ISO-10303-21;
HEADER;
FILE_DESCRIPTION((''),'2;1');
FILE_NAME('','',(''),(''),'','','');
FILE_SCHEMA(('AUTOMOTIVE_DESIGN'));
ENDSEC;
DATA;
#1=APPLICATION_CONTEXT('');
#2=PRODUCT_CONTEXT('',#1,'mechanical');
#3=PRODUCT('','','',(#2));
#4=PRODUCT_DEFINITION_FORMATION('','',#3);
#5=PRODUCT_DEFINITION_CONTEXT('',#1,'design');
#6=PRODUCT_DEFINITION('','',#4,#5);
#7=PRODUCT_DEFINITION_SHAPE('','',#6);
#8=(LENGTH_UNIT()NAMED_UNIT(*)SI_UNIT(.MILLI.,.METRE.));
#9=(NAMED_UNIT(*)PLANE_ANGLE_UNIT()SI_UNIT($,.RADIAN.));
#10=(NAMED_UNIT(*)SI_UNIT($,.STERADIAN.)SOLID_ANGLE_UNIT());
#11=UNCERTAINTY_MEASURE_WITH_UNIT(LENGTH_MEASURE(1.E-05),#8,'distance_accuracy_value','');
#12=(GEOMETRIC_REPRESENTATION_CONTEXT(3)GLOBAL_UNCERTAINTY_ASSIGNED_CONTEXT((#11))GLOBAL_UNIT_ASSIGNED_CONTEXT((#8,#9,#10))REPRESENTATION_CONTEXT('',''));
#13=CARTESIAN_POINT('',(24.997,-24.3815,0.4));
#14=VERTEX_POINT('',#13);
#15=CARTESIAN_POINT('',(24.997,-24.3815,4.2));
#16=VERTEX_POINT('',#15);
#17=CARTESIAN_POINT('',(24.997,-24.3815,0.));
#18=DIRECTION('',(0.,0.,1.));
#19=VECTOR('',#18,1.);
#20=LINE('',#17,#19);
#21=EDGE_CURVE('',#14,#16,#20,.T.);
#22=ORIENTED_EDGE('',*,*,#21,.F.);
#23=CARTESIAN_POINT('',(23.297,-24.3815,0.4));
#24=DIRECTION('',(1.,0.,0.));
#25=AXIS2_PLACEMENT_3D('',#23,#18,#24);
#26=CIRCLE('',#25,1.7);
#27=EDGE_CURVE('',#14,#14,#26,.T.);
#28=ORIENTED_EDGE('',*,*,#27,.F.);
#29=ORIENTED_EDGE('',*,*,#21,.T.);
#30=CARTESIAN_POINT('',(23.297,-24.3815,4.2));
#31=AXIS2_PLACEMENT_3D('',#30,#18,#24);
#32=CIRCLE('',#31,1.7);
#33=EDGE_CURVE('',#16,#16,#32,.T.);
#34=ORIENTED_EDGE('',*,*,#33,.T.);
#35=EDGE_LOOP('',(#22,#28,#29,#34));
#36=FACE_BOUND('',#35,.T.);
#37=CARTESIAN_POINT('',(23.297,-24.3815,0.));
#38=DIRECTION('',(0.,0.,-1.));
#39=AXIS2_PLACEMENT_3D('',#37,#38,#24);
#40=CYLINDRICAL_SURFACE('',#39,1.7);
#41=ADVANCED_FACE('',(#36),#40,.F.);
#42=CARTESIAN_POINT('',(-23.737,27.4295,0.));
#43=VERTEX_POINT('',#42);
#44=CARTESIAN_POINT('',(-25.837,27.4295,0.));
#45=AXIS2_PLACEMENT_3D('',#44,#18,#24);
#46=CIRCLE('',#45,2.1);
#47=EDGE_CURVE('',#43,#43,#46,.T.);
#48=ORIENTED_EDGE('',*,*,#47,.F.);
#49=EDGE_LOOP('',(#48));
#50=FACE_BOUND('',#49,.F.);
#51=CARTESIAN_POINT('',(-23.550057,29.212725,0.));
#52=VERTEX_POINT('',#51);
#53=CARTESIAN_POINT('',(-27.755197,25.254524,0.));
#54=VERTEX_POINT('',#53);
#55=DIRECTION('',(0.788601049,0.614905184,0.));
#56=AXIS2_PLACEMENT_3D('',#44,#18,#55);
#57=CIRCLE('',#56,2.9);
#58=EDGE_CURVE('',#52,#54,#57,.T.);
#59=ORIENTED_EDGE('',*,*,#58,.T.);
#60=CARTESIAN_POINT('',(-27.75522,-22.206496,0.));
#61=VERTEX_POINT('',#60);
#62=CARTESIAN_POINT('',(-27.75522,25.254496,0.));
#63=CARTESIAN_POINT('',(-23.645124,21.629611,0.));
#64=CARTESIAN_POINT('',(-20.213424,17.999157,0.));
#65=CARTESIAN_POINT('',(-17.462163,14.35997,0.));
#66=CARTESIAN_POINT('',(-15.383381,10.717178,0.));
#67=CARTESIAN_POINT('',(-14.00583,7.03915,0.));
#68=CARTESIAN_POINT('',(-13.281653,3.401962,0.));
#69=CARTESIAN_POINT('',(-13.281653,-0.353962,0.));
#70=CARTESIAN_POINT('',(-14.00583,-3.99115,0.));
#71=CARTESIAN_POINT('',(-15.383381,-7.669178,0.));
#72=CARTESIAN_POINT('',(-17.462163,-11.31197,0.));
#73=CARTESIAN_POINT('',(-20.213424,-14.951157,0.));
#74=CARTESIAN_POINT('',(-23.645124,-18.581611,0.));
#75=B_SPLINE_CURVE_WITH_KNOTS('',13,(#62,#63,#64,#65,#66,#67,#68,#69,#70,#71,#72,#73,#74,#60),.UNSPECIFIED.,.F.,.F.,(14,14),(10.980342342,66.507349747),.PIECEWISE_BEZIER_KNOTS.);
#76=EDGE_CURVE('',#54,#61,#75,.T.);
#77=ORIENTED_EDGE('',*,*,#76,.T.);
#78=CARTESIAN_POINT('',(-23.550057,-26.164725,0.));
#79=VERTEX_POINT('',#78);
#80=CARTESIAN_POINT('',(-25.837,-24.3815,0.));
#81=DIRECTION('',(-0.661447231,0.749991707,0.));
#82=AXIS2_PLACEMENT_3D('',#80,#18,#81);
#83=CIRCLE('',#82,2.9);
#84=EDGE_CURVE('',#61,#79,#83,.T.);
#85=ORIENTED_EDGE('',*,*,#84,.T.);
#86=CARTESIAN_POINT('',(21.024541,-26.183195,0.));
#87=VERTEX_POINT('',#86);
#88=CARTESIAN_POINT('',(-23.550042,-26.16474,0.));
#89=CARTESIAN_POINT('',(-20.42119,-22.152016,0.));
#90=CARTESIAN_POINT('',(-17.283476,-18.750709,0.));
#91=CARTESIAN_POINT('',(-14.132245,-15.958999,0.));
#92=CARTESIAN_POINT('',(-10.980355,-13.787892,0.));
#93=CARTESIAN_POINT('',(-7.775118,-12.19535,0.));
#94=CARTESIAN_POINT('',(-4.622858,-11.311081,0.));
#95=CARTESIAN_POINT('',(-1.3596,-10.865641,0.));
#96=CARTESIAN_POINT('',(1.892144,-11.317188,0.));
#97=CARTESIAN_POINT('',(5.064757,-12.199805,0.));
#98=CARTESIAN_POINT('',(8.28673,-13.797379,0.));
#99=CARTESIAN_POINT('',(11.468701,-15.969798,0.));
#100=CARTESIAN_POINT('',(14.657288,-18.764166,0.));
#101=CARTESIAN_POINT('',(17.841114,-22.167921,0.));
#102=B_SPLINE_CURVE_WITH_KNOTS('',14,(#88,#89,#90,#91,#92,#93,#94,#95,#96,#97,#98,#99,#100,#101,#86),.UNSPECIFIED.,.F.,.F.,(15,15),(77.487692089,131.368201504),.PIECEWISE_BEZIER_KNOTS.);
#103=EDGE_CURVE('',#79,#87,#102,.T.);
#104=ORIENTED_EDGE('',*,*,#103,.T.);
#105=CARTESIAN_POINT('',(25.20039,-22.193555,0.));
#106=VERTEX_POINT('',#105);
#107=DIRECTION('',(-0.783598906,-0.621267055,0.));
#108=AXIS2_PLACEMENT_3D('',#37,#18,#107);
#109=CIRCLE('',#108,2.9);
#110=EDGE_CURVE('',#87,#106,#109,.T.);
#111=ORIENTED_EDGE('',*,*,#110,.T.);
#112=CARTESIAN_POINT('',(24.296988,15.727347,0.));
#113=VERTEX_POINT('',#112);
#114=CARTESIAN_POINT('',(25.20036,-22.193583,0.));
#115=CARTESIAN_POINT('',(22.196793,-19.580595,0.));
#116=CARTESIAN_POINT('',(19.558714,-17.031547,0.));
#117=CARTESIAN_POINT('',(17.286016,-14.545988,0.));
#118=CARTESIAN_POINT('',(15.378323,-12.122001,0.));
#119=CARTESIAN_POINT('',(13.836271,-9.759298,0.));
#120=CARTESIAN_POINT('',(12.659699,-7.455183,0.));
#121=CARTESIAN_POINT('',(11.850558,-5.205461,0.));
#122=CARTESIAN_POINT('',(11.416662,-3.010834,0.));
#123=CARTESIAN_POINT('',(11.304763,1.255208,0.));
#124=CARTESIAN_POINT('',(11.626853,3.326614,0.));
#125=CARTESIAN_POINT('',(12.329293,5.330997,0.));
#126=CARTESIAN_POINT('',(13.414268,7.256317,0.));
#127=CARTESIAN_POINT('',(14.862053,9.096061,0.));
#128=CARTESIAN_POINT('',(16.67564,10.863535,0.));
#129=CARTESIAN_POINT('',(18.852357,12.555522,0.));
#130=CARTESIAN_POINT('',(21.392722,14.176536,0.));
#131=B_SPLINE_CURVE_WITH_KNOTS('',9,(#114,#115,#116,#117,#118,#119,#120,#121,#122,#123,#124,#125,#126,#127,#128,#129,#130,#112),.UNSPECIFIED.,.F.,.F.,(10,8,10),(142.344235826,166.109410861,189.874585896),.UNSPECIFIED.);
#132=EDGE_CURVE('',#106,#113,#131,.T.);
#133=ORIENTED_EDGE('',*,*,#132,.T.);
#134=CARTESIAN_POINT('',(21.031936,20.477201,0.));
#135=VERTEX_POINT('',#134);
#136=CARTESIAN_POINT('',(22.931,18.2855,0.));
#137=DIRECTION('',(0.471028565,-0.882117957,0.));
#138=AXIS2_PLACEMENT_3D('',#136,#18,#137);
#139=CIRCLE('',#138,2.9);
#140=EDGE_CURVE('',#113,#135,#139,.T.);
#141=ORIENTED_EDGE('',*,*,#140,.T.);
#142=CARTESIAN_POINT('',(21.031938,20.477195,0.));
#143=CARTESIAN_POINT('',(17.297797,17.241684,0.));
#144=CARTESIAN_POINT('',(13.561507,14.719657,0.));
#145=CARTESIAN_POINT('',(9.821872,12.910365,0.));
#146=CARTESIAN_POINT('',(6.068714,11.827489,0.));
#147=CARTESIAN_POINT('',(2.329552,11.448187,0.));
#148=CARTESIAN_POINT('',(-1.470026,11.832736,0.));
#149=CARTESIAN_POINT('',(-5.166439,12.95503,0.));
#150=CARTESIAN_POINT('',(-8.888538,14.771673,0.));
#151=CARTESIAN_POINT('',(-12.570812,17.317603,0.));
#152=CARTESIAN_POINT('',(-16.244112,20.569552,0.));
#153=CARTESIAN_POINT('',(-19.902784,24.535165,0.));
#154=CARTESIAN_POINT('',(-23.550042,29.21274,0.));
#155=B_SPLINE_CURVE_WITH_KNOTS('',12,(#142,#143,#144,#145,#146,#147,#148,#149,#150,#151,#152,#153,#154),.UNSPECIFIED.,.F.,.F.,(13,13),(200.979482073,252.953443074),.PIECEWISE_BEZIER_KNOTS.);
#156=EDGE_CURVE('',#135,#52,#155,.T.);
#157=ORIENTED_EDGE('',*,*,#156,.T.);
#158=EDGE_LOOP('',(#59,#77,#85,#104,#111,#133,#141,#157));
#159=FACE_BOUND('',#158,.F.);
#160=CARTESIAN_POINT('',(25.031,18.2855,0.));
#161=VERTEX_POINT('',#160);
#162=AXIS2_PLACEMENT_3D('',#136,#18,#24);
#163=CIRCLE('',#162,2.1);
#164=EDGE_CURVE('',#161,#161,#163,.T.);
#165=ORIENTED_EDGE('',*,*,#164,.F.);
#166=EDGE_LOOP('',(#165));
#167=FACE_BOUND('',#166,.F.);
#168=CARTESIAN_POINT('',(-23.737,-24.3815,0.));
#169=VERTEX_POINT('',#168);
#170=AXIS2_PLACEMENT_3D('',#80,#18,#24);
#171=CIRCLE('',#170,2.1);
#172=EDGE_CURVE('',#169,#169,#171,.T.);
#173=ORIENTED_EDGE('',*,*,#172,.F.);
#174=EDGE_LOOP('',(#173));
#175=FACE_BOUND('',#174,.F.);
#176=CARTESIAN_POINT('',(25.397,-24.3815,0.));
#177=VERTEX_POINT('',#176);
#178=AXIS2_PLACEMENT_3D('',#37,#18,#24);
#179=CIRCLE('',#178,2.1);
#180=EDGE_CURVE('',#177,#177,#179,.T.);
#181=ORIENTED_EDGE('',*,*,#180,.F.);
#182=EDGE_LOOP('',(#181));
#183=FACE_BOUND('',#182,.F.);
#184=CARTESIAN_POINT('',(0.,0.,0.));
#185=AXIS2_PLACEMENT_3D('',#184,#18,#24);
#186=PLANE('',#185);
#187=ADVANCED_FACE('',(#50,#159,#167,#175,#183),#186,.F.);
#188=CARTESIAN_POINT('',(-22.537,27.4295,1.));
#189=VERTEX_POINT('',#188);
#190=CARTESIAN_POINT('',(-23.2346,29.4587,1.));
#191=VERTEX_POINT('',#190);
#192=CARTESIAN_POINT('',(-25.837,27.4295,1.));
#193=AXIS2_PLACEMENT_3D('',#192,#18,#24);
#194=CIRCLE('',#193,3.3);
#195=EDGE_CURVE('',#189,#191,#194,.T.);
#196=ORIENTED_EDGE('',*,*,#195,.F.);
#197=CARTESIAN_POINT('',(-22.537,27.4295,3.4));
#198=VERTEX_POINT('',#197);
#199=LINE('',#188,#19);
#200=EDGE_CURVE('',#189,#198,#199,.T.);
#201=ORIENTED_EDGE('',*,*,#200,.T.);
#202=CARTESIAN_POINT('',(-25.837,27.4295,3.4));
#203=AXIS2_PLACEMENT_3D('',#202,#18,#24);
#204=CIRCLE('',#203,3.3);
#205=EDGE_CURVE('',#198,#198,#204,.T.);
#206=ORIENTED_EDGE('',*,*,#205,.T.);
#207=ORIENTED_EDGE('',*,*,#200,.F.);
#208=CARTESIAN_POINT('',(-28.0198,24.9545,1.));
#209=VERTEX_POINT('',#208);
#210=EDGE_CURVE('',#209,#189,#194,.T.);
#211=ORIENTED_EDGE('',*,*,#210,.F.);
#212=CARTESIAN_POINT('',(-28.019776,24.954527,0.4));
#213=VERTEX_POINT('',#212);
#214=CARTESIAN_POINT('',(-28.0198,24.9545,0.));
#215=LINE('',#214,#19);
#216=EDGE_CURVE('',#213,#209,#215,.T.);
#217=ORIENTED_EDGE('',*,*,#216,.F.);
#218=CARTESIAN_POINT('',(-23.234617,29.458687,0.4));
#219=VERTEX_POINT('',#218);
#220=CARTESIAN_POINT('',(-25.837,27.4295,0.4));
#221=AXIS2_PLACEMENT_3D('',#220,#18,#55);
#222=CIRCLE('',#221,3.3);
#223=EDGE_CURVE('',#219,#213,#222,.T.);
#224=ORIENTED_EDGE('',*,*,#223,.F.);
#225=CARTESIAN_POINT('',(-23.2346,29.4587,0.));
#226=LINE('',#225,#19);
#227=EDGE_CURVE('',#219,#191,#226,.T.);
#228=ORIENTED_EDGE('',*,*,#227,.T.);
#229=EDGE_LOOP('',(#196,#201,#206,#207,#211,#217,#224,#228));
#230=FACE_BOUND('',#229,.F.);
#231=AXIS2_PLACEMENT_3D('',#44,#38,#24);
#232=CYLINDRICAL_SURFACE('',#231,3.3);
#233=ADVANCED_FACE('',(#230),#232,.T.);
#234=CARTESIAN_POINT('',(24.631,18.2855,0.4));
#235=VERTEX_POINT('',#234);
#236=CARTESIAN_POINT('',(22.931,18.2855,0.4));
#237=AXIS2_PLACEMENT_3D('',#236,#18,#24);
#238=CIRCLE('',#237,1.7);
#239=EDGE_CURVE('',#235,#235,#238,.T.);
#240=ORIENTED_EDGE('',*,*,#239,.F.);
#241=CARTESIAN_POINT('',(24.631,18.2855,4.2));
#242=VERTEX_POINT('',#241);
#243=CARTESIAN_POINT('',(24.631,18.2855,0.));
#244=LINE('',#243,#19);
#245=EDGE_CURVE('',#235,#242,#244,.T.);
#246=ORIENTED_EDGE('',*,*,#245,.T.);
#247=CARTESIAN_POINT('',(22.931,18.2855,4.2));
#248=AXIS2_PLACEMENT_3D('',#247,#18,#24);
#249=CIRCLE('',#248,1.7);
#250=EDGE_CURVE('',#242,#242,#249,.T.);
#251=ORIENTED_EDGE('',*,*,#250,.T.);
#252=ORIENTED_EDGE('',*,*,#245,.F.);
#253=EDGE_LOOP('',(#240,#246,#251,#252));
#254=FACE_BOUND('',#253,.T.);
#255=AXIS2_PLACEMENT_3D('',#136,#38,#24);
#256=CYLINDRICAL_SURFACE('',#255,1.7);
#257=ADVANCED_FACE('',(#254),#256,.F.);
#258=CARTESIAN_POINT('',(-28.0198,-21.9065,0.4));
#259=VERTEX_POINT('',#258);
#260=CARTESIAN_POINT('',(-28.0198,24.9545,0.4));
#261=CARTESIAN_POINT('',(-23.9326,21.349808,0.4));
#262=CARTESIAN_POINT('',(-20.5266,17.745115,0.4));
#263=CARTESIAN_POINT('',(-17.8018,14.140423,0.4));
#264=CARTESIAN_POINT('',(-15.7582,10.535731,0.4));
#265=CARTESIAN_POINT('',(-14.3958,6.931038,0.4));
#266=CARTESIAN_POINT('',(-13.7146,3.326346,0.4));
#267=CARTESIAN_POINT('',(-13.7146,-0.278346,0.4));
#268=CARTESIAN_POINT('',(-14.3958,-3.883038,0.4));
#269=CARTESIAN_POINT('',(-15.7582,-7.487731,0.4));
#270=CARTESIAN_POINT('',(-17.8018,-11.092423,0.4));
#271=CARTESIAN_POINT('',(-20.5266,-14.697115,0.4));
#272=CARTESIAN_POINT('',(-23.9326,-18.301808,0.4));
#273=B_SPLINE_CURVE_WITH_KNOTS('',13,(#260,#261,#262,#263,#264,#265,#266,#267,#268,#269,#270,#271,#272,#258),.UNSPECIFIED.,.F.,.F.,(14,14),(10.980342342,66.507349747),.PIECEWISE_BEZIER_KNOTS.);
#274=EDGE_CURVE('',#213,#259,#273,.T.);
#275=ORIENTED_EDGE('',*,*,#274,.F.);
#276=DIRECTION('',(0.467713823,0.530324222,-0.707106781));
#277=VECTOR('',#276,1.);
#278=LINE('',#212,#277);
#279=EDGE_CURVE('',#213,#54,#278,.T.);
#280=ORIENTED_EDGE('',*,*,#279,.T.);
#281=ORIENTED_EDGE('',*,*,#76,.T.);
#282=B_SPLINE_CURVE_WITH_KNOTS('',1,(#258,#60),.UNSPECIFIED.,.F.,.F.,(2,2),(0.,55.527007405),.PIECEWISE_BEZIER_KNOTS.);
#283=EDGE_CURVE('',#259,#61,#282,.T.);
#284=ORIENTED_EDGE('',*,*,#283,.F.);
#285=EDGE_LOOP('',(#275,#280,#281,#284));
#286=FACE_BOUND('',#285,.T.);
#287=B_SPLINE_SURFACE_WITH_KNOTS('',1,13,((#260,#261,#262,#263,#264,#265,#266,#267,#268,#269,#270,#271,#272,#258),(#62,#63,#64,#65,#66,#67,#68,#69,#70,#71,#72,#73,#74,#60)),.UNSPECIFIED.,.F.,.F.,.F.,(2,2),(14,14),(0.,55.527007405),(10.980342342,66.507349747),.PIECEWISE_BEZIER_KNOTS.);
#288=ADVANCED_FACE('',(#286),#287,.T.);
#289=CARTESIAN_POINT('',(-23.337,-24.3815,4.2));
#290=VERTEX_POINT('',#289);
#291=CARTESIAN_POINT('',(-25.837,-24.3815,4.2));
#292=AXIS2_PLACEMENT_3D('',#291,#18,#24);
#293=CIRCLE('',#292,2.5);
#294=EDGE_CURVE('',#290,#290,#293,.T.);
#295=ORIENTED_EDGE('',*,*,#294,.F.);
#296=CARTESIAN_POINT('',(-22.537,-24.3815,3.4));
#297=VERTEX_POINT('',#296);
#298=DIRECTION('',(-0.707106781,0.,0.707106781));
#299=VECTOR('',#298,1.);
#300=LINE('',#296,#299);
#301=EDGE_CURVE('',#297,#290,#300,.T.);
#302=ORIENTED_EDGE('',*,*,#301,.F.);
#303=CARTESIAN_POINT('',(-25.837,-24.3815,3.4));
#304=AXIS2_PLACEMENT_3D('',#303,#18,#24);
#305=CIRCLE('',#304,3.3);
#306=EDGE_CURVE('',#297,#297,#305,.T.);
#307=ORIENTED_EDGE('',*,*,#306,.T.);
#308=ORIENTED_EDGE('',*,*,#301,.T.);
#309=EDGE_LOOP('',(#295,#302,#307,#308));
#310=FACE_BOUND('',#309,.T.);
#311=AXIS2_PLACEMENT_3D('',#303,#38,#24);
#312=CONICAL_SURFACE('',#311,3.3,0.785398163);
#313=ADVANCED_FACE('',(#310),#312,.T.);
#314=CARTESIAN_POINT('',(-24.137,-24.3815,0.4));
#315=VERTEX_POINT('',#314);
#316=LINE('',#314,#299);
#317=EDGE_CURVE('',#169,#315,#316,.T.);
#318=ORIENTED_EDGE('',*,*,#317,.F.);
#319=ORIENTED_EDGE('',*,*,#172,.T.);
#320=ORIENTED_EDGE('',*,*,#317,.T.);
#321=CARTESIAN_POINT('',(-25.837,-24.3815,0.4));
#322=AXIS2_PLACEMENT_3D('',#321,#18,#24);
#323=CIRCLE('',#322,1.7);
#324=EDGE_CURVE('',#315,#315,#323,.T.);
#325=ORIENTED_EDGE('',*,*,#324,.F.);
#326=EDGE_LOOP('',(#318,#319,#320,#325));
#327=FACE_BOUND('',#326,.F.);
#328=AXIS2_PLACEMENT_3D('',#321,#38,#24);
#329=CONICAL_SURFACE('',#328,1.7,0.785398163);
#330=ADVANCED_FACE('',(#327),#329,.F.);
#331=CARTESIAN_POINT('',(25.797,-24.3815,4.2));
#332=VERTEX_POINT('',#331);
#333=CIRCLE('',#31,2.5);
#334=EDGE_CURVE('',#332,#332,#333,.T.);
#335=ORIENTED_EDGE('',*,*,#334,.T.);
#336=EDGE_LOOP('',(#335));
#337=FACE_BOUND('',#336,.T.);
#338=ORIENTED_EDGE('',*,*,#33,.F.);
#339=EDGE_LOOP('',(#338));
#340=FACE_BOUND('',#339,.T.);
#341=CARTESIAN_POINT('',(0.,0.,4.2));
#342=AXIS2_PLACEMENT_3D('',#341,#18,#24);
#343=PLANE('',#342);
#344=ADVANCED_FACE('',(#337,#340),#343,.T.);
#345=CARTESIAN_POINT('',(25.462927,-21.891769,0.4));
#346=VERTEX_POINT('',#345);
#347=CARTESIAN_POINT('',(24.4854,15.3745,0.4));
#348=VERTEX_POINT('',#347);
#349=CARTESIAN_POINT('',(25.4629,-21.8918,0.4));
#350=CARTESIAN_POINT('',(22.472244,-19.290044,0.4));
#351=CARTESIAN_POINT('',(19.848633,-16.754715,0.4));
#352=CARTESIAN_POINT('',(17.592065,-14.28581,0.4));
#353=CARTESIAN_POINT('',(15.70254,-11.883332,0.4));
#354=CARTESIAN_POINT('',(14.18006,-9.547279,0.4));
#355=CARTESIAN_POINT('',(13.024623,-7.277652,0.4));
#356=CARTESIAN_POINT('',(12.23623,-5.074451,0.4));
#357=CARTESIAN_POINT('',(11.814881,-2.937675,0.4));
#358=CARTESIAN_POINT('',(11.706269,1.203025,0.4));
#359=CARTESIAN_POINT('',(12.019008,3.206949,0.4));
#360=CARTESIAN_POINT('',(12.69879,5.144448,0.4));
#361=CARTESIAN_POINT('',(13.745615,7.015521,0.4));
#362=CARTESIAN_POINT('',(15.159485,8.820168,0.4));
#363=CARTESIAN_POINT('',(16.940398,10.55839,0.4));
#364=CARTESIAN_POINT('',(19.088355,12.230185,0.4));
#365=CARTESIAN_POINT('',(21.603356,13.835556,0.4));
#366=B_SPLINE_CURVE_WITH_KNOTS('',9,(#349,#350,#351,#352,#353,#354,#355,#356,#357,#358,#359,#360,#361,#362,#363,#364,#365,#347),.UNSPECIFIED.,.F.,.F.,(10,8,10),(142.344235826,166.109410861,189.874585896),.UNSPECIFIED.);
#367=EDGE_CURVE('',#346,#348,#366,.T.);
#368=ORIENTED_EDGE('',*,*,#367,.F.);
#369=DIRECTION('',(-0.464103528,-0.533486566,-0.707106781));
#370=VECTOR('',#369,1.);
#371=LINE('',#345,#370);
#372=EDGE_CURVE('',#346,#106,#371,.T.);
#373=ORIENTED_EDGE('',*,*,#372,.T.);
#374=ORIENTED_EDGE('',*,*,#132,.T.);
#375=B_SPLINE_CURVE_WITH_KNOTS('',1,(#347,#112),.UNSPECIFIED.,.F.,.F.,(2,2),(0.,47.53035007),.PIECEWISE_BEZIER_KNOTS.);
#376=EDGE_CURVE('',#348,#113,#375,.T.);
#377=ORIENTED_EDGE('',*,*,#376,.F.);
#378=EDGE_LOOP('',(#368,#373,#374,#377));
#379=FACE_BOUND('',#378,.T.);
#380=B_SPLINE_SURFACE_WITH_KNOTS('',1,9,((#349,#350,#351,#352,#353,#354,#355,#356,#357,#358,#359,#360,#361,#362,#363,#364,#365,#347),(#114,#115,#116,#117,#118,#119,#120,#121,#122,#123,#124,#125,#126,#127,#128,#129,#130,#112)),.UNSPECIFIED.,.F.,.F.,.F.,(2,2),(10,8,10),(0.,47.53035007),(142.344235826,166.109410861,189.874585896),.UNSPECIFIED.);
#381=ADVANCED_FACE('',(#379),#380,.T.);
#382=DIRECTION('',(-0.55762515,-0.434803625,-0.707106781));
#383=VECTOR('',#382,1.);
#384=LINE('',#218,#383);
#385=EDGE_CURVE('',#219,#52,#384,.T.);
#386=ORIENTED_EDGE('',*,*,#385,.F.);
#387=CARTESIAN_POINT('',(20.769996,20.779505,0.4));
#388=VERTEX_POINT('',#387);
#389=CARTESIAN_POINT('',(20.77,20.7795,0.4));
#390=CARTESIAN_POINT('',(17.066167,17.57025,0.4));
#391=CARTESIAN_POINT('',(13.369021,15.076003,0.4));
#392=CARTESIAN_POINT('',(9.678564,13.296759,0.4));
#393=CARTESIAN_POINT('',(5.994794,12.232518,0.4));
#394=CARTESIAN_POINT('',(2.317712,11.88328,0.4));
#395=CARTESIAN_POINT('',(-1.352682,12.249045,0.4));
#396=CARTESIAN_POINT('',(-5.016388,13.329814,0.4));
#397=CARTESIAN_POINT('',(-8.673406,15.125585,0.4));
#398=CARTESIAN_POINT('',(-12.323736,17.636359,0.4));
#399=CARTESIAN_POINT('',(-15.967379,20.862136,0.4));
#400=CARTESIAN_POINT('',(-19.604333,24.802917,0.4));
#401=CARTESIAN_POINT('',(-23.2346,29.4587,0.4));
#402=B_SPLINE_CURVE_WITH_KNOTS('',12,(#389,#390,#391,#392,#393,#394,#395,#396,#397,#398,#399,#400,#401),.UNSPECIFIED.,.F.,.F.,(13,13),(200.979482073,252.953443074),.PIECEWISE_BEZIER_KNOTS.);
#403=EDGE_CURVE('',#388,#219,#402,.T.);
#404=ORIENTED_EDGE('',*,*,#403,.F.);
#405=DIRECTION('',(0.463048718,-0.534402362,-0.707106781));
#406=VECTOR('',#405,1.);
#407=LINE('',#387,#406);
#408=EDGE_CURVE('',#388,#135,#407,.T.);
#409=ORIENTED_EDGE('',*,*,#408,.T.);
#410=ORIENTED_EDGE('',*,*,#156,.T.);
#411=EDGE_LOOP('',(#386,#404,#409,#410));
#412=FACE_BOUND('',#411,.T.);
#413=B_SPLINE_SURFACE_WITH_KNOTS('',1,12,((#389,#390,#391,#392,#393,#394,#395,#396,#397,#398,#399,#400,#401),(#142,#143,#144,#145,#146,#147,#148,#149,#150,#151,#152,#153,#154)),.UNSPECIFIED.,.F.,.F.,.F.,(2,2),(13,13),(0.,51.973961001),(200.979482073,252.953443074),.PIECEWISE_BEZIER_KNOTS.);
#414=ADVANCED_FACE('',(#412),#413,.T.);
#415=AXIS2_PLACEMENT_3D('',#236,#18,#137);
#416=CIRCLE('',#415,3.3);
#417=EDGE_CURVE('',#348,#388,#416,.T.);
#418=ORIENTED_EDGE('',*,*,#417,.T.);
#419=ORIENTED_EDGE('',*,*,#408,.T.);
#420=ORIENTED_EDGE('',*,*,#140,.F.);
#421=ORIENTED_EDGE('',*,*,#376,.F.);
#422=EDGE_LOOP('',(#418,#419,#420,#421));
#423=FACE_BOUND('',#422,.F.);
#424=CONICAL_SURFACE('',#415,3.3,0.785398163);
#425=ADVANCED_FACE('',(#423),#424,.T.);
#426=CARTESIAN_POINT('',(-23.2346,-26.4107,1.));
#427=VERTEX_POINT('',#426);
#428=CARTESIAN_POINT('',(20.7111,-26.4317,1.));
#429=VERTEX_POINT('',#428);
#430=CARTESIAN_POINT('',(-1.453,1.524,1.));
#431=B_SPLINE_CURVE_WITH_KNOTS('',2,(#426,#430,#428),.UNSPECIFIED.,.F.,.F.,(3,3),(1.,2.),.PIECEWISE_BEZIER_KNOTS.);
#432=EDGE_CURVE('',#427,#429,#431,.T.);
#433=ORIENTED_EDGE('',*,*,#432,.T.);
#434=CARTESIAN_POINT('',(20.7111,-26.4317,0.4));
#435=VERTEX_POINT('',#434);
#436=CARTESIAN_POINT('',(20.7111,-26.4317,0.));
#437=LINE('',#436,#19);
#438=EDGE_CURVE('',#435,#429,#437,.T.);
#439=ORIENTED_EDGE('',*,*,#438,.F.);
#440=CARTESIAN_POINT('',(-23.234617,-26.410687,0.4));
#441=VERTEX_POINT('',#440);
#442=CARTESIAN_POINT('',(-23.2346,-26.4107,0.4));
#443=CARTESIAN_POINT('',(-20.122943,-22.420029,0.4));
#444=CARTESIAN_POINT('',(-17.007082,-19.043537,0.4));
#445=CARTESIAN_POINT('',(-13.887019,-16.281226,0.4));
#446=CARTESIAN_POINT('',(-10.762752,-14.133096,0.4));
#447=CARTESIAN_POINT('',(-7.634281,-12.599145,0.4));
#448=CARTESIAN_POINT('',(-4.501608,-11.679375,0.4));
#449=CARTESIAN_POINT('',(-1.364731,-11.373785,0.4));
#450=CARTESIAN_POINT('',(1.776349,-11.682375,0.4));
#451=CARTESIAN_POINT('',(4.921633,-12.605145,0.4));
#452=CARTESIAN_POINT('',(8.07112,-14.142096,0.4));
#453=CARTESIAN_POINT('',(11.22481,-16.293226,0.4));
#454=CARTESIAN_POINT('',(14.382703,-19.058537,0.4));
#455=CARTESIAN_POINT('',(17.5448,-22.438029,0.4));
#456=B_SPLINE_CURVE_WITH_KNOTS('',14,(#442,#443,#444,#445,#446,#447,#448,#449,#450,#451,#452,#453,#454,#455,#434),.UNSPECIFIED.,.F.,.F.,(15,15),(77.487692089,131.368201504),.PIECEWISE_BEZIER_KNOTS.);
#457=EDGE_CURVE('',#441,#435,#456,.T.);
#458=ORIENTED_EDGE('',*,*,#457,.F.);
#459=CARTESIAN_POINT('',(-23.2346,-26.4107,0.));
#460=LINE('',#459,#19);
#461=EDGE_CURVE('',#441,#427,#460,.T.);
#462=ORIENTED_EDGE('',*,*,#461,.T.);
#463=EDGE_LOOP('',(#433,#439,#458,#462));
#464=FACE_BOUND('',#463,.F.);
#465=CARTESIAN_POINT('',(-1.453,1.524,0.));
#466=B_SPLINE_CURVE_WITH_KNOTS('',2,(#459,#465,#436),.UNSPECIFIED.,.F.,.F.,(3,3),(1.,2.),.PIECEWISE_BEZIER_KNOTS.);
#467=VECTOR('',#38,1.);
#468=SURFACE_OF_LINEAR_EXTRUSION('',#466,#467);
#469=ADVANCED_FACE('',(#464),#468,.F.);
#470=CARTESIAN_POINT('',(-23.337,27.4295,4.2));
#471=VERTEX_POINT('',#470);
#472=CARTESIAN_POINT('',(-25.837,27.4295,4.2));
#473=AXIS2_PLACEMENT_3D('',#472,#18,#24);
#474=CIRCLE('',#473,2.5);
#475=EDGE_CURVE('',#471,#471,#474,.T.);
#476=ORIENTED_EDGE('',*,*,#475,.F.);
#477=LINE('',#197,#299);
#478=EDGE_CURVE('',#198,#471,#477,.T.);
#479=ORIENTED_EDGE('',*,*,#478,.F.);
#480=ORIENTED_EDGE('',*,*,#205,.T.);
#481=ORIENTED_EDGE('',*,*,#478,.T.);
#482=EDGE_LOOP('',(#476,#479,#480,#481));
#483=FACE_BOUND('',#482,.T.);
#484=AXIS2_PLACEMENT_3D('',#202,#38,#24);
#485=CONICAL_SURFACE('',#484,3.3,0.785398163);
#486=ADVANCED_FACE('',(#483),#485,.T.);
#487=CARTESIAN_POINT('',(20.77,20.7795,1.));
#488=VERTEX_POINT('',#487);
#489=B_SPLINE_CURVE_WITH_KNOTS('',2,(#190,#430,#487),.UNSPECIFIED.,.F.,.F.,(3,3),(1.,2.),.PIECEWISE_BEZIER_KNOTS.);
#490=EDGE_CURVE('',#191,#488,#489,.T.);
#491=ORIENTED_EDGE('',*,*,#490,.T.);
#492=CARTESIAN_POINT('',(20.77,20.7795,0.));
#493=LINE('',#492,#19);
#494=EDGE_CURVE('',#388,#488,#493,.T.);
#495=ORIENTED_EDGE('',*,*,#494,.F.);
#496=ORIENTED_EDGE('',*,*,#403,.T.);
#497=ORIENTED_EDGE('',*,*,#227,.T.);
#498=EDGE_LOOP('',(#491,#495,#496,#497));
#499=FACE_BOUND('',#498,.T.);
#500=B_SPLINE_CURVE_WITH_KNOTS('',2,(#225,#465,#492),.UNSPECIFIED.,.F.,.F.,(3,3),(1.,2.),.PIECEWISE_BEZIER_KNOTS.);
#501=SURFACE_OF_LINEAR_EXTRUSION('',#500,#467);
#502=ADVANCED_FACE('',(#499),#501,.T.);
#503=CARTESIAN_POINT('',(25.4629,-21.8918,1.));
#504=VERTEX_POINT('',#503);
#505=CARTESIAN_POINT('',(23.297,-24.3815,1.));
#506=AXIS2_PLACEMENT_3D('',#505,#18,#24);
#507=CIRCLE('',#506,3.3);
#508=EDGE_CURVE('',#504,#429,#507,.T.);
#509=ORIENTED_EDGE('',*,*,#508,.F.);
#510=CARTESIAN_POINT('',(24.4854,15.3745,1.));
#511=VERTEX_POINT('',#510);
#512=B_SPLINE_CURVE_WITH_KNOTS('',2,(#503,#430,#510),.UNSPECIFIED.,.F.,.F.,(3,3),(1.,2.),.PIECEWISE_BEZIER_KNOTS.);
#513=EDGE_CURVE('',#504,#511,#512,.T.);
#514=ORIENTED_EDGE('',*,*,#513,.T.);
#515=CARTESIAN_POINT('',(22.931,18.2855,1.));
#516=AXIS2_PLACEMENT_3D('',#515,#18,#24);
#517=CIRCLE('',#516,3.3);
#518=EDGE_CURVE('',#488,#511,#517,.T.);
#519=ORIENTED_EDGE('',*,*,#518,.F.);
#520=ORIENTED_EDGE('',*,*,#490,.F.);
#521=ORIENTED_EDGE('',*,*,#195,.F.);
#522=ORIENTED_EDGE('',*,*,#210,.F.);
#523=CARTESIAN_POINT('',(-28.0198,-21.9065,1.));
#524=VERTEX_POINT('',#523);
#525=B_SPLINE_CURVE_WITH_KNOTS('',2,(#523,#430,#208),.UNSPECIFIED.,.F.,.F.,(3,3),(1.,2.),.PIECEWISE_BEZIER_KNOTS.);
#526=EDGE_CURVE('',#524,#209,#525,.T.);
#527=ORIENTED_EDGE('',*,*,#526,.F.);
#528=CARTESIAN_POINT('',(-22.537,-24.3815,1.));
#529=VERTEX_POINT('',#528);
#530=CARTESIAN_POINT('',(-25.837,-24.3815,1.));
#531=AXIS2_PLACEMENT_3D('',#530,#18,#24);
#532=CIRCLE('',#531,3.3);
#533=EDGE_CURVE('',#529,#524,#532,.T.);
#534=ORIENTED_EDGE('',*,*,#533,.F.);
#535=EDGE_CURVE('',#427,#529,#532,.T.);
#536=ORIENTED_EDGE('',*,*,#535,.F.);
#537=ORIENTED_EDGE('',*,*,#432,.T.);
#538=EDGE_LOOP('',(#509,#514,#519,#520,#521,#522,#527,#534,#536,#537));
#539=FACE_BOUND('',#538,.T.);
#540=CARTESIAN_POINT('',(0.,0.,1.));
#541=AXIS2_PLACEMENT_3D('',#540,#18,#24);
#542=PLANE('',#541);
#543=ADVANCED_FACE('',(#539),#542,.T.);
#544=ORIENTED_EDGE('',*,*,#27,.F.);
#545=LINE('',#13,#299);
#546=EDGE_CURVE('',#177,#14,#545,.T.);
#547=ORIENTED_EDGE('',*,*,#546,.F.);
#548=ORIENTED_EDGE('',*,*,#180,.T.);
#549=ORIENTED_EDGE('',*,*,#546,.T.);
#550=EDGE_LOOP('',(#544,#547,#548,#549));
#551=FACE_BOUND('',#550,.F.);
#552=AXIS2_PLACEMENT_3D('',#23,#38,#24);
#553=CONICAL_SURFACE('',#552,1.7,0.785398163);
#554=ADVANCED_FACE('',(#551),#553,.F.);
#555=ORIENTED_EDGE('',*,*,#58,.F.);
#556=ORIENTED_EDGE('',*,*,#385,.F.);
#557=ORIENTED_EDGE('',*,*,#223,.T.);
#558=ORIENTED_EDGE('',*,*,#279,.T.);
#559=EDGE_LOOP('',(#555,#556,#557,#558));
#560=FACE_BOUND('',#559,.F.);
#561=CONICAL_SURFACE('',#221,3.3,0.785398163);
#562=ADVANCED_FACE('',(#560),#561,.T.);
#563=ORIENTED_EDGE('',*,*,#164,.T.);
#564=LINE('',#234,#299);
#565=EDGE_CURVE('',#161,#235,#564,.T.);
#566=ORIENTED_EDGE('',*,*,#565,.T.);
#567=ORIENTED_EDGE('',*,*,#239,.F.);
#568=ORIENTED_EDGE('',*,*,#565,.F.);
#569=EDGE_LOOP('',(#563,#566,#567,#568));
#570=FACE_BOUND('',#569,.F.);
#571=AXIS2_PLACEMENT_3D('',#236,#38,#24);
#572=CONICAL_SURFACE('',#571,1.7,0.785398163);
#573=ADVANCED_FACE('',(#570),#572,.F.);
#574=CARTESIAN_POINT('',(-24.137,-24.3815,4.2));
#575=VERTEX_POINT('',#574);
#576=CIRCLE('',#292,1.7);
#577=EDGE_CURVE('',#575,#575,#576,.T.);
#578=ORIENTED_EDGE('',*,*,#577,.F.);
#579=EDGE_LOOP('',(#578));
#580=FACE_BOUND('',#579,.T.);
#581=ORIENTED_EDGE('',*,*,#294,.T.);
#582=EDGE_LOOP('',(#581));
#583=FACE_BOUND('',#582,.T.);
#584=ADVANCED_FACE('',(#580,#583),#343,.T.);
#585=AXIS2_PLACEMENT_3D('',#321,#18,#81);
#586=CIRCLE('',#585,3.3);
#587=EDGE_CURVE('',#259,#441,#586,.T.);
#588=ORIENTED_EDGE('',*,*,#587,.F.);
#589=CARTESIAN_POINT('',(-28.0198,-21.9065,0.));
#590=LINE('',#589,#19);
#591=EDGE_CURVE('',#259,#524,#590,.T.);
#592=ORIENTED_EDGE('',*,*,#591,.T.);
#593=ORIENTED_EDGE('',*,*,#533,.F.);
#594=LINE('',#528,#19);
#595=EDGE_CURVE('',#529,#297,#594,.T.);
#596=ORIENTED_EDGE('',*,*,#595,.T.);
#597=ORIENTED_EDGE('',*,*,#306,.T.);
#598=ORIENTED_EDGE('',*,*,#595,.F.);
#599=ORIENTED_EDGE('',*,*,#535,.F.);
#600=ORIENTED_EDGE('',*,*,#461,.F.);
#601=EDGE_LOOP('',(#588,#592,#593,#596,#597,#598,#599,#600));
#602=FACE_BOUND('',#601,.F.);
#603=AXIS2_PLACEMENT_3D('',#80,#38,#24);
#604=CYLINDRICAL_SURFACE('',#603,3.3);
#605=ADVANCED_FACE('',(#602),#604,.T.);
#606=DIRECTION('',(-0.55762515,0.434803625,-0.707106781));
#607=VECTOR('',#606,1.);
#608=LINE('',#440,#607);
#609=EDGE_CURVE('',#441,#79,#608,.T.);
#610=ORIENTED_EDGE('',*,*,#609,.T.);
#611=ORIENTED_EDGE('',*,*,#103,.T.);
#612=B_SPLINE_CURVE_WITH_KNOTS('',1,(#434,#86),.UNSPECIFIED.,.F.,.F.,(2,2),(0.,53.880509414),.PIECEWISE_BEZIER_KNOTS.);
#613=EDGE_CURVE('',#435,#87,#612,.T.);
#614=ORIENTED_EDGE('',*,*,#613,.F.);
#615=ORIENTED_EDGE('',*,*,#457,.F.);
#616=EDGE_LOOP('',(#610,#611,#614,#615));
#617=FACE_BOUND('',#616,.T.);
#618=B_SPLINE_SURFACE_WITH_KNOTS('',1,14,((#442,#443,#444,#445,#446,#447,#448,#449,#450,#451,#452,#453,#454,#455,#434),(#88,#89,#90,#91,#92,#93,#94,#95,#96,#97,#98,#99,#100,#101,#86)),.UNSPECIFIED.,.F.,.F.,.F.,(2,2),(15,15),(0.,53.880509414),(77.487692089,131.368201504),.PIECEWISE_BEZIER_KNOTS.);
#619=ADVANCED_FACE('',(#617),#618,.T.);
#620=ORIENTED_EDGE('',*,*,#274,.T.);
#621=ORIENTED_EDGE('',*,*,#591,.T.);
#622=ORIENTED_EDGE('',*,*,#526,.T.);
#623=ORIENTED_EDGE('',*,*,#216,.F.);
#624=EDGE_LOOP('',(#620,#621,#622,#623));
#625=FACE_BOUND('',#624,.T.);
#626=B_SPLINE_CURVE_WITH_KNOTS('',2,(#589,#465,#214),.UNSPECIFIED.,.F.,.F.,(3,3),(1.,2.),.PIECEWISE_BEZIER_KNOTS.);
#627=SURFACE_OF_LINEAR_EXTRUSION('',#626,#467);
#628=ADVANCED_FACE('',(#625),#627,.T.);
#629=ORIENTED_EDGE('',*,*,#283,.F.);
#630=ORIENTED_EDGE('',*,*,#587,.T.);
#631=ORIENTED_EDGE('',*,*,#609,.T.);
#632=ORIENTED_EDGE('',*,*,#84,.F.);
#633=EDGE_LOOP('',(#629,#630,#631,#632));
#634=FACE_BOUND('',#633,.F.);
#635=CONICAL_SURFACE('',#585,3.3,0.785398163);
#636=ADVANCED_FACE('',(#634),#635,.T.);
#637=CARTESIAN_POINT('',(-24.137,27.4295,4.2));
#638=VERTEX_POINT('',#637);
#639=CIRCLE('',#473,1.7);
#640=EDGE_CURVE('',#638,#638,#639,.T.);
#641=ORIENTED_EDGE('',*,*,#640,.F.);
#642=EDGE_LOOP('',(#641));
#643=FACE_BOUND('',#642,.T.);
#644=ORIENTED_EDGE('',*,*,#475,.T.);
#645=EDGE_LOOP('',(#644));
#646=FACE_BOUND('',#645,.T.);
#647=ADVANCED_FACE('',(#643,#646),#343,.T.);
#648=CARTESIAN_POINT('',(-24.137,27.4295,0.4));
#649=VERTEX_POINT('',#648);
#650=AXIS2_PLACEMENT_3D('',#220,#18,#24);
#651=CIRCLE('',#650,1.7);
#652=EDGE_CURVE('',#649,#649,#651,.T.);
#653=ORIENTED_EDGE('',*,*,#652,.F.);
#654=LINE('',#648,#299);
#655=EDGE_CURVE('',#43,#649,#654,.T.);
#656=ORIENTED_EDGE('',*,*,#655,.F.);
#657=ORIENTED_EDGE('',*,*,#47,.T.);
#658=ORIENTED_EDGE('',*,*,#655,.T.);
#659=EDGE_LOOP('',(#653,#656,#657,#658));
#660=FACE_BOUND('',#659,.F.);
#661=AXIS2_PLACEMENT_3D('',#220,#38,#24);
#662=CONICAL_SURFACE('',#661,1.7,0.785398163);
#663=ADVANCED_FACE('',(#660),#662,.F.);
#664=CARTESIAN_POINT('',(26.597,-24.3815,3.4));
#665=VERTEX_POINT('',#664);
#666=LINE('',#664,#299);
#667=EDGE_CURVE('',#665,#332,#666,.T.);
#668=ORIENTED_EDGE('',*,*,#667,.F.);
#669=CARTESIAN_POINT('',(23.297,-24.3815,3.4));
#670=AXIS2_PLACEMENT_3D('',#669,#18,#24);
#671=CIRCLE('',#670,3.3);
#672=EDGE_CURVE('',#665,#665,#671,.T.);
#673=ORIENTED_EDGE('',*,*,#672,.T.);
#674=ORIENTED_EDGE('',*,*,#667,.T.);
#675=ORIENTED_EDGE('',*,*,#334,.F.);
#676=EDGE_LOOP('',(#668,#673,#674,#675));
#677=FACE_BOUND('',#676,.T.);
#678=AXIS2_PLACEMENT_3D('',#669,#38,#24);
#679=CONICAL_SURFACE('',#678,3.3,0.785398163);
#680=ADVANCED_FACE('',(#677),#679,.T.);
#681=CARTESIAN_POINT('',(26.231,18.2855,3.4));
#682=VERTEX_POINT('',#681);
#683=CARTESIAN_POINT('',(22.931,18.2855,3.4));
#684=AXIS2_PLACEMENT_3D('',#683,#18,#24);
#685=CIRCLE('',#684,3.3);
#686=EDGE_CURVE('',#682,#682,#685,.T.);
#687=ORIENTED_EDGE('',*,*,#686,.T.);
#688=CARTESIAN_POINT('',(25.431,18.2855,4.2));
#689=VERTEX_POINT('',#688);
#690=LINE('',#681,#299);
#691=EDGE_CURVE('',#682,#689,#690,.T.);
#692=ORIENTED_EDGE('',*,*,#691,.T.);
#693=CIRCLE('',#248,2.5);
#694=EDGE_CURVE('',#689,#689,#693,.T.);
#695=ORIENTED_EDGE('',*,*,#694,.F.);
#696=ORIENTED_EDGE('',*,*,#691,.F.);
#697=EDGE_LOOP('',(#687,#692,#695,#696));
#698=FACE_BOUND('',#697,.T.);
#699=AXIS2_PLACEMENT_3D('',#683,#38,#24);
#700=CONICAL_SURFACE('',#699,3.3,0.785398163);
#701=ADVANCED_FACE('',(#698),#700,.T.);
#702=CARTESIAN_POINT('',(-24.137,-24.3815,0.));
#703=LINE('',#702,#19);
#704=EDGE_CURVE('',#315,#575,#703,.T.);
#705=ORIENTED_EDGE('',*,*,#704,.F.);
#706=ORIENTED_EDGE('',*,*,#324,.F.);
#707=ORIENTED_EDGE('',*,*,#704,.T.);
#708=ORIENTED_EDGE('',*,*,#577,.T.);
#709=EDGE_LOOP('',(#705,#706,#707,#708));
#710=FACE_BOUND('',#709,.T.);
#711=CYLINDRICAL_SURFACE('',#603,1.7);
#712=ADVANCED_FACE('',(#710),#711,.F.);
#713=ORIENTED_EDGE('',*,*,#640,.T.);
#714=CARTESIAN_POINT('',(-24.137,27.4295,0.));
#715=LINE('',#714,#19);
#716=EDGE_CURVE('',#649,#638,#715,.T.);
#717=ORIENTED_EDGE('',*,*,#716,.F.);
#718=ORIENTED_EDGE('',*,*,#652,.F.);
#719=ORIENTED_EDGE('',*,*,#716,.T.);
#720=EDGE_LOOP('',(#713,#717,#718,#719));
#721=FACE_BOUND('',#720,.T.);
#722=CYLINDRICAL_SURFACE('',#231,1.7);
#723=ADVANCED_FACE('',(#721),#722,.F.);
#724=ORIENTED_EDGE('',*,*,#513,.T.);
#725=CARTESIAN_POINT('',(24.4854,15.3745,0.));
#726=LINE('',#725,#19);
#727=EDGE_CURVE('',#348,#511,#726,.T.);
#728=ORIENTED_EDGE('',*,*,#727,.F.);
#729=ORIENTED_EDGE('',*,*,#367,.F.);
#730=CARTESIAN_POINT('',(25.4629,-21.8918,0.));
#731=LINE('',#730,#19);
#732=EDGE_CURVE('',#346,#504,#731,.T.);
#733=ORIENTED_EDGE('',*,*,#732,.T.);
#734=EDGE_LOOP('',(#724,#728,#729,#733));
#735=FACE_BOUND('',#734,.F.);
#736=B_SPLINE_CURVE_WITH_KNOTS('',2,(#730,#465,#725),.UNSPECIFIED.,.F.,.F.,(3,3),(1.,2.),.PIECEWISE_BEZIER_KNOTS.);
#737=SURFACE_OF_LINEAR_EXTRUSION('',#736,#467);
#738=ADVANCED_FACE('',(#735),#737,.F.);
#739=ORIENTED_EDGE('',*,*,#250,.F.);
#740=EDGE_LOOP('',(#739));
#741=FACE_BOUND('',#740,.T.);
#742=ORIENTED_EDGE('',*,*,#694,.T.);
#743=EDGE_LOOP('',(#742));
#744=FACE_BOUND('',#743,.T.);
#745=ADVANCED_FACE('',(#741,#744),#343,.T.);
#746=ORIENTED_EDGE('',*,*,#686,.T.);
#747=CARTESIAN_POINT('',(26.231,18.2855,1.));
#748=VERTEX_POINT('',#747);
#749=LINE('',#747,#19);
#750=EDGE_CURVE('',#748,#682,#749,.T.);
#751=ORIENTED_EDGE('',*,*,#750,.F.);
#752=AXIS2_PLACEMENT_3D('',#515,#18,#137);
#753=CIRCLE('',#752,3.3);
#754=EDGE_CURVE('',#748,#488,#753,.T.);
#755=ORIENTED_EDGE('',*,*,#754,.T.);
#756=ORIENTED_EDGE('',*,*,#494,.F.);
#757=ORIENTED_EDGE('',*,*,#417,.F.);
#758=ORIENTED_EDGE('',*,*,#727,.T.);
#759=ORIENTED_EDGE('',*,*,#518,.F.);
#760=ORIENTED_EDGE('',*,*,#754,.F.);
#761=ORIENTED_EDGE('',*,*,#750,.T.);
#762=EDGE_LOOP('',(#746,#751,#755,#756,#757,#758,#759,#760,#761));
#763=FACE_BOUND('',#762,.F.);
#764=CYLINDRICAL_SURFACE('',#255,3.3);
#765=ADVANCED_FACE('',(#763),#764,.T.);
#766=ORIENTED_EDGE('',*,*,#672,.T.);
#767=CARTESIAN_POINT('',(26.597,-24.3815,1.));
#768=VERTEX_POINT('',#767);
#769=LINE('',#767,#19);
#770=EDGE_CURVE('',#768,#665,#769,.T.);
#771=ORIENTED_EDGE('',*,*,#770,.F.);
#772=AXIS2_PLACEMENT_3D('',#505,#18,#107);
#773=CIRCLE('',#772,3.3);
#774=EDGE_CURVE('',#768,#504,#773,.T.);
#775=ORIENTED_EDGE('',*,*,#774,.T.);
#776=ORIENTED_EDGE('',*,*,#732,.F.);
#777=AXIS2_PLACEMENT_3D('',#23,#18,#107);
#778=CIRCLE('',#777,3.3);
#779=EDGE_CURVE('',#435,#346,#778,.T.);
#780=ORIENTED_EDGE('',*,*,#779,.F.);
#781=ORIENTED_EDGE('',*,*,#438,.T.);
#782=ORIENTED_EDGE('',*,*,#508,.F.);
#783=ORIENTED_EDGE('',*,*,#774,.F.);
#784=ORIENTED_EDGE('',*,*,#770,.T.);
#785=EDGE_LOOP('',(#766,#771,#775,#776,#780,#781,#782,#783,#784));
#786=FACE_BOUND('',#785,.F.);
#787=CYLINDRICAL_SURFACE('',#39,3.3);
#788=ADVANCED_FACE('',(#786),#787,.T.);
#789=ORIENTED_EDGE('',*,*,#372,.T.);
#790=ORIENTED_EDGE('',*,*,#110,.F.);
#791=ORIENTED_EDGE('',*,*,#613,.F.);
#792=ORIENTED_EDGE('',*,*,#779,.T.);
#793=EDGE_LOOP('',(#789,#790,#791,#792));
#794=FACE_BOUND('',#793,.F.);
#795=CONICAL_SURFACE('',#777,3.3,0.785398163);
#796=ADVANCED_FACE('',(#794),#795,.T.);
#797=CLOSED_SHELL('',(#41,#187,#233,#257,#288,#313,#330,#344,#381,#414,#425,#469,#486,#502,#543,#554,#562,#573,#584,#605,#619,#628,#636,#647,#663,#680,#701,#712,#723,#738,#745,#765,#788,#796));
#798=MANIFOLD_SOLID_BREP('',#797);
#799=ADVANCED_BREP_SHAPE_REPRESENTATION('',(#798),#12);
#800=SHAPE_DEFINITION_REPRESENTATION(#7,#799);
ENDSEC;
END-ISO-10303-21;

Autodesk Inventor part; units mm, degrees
ref_plane "YZ Plane" through (0, 0, 0) normal (1, 0, 0) x (0, 1, 0)
ref_plane "XZ Plane" through (0, 0, 0) normal (0, 1, 0) x (-1, 0, 0)
ref_plane "XY Plane" through (0, 0, 0) normal (0, 0, 1) x (1, 0, 0)
sketch "Skizze1" plane through (0, 0, 0) normal (0, 0, 1) x (1, 0, 0)
  circle A0 centre (-25.837, 27.4295) radius 1.65 projected
  line L0 (-38.2086, 5.3216) -> (-37.4869, 5.3204) projected
  line L1 (-37.4869, 5.3204) -> (-37.4918, 2.4829) projected
  line L2 (-37.4918, 2.4829) -> (-35.7716, 2.4799) projected
  line L3 (-35.7716, 2.4799) -> (-35.7668, 5.1987) projected
  line L4 (-35.7668, 5.1987) -> (-35.0451, 5.1975) projected
  line L5 (-35.0451, 5.1975) -> (-35.0499, 2.4787) projected
  line L6 (-35.0499, 2.4787) -> (-32.1136, 2.4735) projected
  line L7 (-32.1136, 2.4735) -> (-32.115, 1.6628) projected
  line L8 (-32.115, 1.6628) -> (-38.215, 1.6735) projected
  line L9 (-38.215, 1.6735) -> (-38.2086, 5.3216) projected
  line L10 (-35.0952, -3.6509) -> (-32.1243, -3.6561) projected
  line L11 (-32.1243, -3.6561) -> (-32.1256, -4.4273) projected
  line L12 (-32.1256, -4.4273) -> (-34.7356, -4.4227) projected
  spline S0 degree 2 poles (-34.7356, -4.4227) (-35.052, -4.4222) (-35.5959, -4.4805) (-35.7592, -4.5692) knots 0 0 0 1 2 2 2 projected
  spline S1 degree 2 poles (-35.7592, -4.5692) (-35.9323, -4.6628) (-36.101, -4.9987) (-36.1015, -5.2854) knots 0 0 0 1 2 2 2 projected
  spline S2 degree 2 poles (-36.1015, -5.2854) (-36.102, -5.5721) (-35.7966, -6.1807) (-35.5499, -6.4728) knots 0 0 0 1 2 2 2 projected
  line L13 (-35.5499, -6.4728) -> (-32.1292, -6.4787) projected
  line L14 (-32.1292, -6.4787) -> (-32.1305, -7.2499) projected
  line L15 (-32.1305, -7.2499) -> (-36.708, -7.2419) projected
  line L16 (-36.708, -7.2419) -> (-36.7066, -6.4707) projected
  line L17 (-36.7066, -6.4707) -> (-36.1975, -6.4716) projected
  spline S3 degree 2 poles (-36.1975, -6.4716) (-36.5083, -6.125) (-36.8334, -5.4571) (-36.8327, -5.0815) knots 0 0 0 1 2 2 2 projected
  spline S4 degree 2 poles (-36.8327, -5.0815) (-36.8316, -4.4092) (-35.9405, -3.6495) (-35.0952, -3.6509) knots 0 0 0 1 2 2 2 projected
  line L18 (-36.71, -8.3739) -> (-32.1325, -8.3819) projected
  line L19 (-32.1325, -8.3819) -> (-32.1338, -9.153) projected
  line L20 (-32.1338, -9.153) -> (-36.7113, -9.145) projected
  line L21 (-36.7113, -9.145) -> (-36.71, -8.3739) projected
  line L22 (-32.1384, -11.773) -> (-32.1398, -12.5837) projected
  line L23 (-32.1398, -12.5837) -> (-37.5181, -12.5743) projected
  line L24 (-37.5181, -12.5743) -> (-37.5217, -14.6208) projected
  line L25 (-37.5217, -14.6208) -> (-38.2434, -14.6195) projected
  line L26 (-38.2434, -14.6195) -> (-38.2348, -9.7158) projected
  line L27 (-38.2348, -9.7158) -> (-37.5131, -9.7171) projected
  line L28 (-37.5131, -9.7171) -> (-37.5167, -11.7636) projected
  line L29 (-37.5167, -11.7636) -> (-32.1384, -11.773) projected
  line L30 (-38.2719, -8.3168) -> (-37.4711, -8.3182) projected
  line L31 (-37.4711, -8.3182) -> (-37.4727, -9.1931) projected
  line L32 (-37.4727, -9.1931) -> (-38.2735, -9.1917) projected
  line L33 (-38.2735, -9.1917) -> (-38.2719, -8.3168) projected
  line L34 (-36.695, 0.2274) -> (-36.6936, 1.0282) projected
  line L35 (-36.6936, 1.0282) -> (-30.4347, -1.4445) projected
  line L36 (-30.4347, -1.4445) -> (-30.4362, -2.27) projected
  line L37 (-30.4362, -2.27) -> (-32.3428, -1.4461) projected
  line L38 (-32.3428, -1.4461) -> (-36.7008, -3.0994) projected
  line L39 (-36.7008, -3.0994) -> (-36.6993, -2.269) projected
  line L40 (-36.6993, -2.269) -> (-33.306, -1.0242) projected
  line L41 (-33.306, -1.0242) -> (-36.695, 0.2274) projected
  line L42 (-32.103, 8.529) -> (-32.5874, 8.5299) projected
  spline S5 degree 2 poles (-32.5874, 8.5299) (-32.5184, 8.4358) (-32.2718, 8.119) (-32.1979, 7.9706) knots 0 0 0 1 2 2 2 projected
  spline S6 degree 2 poles (-32.1979, 7.9706) (-32.0895, 7.7677) (-31.9765, 7.3869) (-31.9771, 7.0409) knots 0 0 0 1 2 2 2 projected
  spline S7 degree 2 poles (-31.9771, 7.0409) (-31.9775, 6.7591) (-32.191, 6.2503) (-32.3841, 6.0579) knots 0 0 0 1 2 2 2 projected
  spline S8 degree 2 poles (-32.3841, 6.0579) (-32.5723, 5.8753) (-33.1263, 5.6538) (-33.4328, 5.6544) knots 0 0 0 1 2 2 2 projected
  spline S9 degree 2 poles (-33.4328, 5.6544) (-33.9074, 5.6552) (-34.5789, 6.0568) (-34.771, 6.4921) knots 0 0 0 1 2 2 2 projected
  spline S10 degree 2 poles (-34.771, 6.4921) (-34.9483, 6.878) (-35.0799, 7.9262) (-35.1134, 8.5343) knots 0 0 0 1 2 2 2 projected
  line L43 (-35.1134, 8.5343) -> (-35.2617, 8.5345) projected
  spline S11 degree 2 poles (-35.2617, 8.5345) (-35.5287, 8.535) (-35.8602, 8.3725) (-35.9543, 8.2243) knots 0 0 0 1 2 2 2 projected
  spline S12 degree 2 poles (-35.9543, 8.2243) (-36.0485, 8.0762) (-36.1086, 7.6512) (-36.109, 7.4238) knots 0 0 0 1 2 2 2 projected
  spline S13 degree 2 poles (-36.109, 7.4238) (-36.1094, 7.1569) (-35.9525, 6.4349) (-35.7999, 6.0737) knots 0 0 0 1 2 2 2 projected
  line L44 (-35.7999, 6.0737) -> (-35.8, 6.0292) projected
  line L45 (-35.8, 6.0292) -> (-36.586, 6.0306) projected
  spline S14 degree 2 poles (-36.586, 6.0306) (-36.6449, 6.2433) (-36.7918, 7.0394) (-36.7911, 7.4299) knots 0 0 0 1 2 2 2 projected
  spline S15 degree 2 poles (-36.7911, 7.4299) (-36.7903, 7.9045) (-36.6409, 8.5518) (-36.4476, 8.8085) knots 0 0 0 1 2 2 2 projected
  spline S16 degree 2 poles (-36.4476, 8.8085) (-36.2594, 9.0603) (-35.6608, 9.3064) (-35.2307, 9.3056) knots 0 0 0 1 2 2 2 projected
  line L46 (-35.2307, 9.3056) -> (-32.1016, 9.3002) projected
  line L47 (-32.1016, 9.3002) -> (-32.103, 8.529) projected
  line L48 (-35.0644, 13.9817) -> (-32.0935, 13.9765) projected
  line L49 (-32.0935, 13.9765) -> (-32.0948, 13.2054) projected
  line L50 (-32.0948, 13.2054) -> (-34.7049, 13.2099) projected
  spline S17 degree 2 poles (-34.7049, 13.2099) (-35.0212, 13.2105) (-35.5651, 13.1521) (-35.7284, 13.0634) knots 0 0 0 1 2 2 2 projected
  spline S18 degree 2 poles (-35.7284, 13.0634) (-35.9016, 12.9698) (-36.0702, 12.6339) (-36.0707, 12.3472) knots 0 0 0 1 2 2 2 projected
  spline S19 degree 2 poles (-36.0707, 12.3472) (-36.0712, 12.0605) (-35.7658, 11.452) (-35.5191, 11.1599) knots 0 0 0 1 2 2 2 projected
  line L51 (-35.5191, 11.1599) -> (-32.0984, 11.1539) projected
  line L52 (-32.0984, 11.1539) -> (-32.0998, 10.3828) projected
  line L53 (-32.0998, 10.3828) -> (-36.6772, 10.3907) projected
  line L54 (-36.6772, 10.3907) -> (-36.6759, 11.1619) projected
  line L55 (-36.6759, 11.1619) -> (-36.1667, 11.161) projected
  spline S20 degree 2 poles (-36.1667, 11.161) (-36.4775, 11.5076) (-36.8026, 12.1755) (-36.802, 12.5512) knots 0 0 0 1 2 2 2 projected
  spline S21 degree 2 poles (-36.802, 12.5512) (-36.8008, 13.2235) (-35.9097, 13.9832) (-35.0644, 13.9817) knots 0 0 0 1 2 2 2 projected
  circle A1 centre (-25.837, -24.3815) radius 1.65 projected
  circle A2 centre (22.931, 18.2855) radius 1.65 projected
  circle A3 centre (23.297, -24.3815) radius 1.65 projected
  arc A4 (-37.7973, 28.9208) -> (-39.6082, 27.5864) centre (-37.7217, 26.9222) ccw projected
  arc A5 (-39.6082, 27.5864) -> (-39.8919, 25.917) centre (-34.8919, 25.926) ccw projected
  line L56 (-39.8919, 25.917) -> (-39.8874, 23.4424) projected
  line L57 (-39.8874, 23.4424) -> (-39.478, 23.4424) projected
  arc A6 (-39.478, 21.4424) -> (-39.478, 23.4424) centre (-34.8856, 22.4424) ccw projected
  line L58 (-39.478, 21.4424) -> (-39.8838, 21.4424) projected
  line L59 (-39.8838, 21.4424) -> (-39.8061, -21.5576) projected
  line L60 (-39.8061, -21.5576) -> (-39.3966, -21.5576) projected
  arc A7 (-39.3966, -23.5576) -> (-39.3966, -21.5576) centre (-34.8043, -22.5576) ccw projected
  line L61 (-39.3966, -23.5576) -> (-39.8025, -23.5576) projected
  line L62 (-39.8025, -23.5576) -> (-39.798, -26.0503) projected
  arc A8 (-39.798, -26.0503) -> (-39.5082, -27.7186) centre (-34.798, -26.0413) ccw projected
  arc A9 (-39.5082, -27.7186) -> (-37.6925, -29.0465) centre (-37.6241, -27.0477) ccw projected
  line L63 (-37.6925, -29.0465) -> (-31.8925, -29.036) projected
  spline S22 degree 2 poles (-31.8925, -29.036) (-30.8606, -29.0341) (-25.3454, -28.3512) knots -2 -2 -2 -1 -1 -1 projected
  arc A10 (-25.3454, -28.3512) -> (-22.6346, -26.7782) centre (-25.837, -24.3815) ccw projected
  spline S23 degree 2 poles (-22.6346, -26.7782) (-1.453, 1.524) (20.1144, -26.8045) knots -2 -2 -2 -1 -1 -1 projected
  arc A11 (20.1144, -26.8045) -> (25.8626, -21.3127) centre (23.297, -24.3815) ccw projected
  arc A12 (24.7305, 14.7131) -> (20.2403, 21.2453) centre (22.931, 18.2855) ccw projected
  spline S24 degree 2 poles (20.2403, 21.2453) (-1.453, 1.524) (-22.6346, 29.8262) knots -2 -2 -2 -1 -1 -1 projected
  arc A13 (-22.6346, 29.8262) -> (-27.9876, 30.8022) centre (-25.837, 27.4295) ccw projected
  spline S25 degree 2 poles (-27.9876, 30.8022) (-30.9185, 28.9332) (-31.9973, 28.9313) knots -2 -2 -2 -1 -1 -1 projected
  line L64 (-31.9973, 28.9313) -> (-37.7973, 28.9208) projected
  circle A14 centre (-25.837, 27.4295) radius 1.7
  circle A15 centre (-25.837, -24.3815) radius 1.7
  circle A16 centre (23.297, -24.3815) radius 1.7
  circle A17 centre (22.931, 18.2855) radius 1.7
  circle A18 centre (-25.837, 27.4295) radius 3.3
  circle A19 centre (22.931, 18.2855) radius 3.3
  circle A20 centre (23.297, -24.3815) radius 3.3
  circle A21 centre (-25.837, -24.3815) radius 3.3
  line L65 (-28.0198, -21.9065) -> (-1.453, 1.524) construction
  line L66 (-1.453, 1.524) -> (-28.0198, 24.9545) construction
  spline S26 degree 2 poles (-28.0198, -21.9065) (-1.453, 1.524) (-28.0198, 24.9545) knots 1 1 1 2 2 2
  line L67 (-23.2346, 29.4587) -> (-1.453, 1.524) construction
  line L68 (-1.453, 1.524) -> (20.77, 20.7795) construction
  spline S27 degree 2 poles (-23.2346, 29.4587) (-1.453, 1.524) (20.77, 20.7795) knots 1 1 1 2 2 2
  line L69 (-23.2346, -26.4107) -> (-1.453, 1.524) construction
  line L70 (-1.453, 1.524) -> (20.7111, -26.4317) construction
  spline S28 degree 2 poles (-23.2346, -26.4107) (-1.453, 1.524) (20.7111, -26.4317) knots 1 1 1 2 2 2
  line L71 (25.4629, -21.8918) -> (-1.453, 1.524) construction
  line L72 (-1.453, 1.524) -> (24.4854, 15.3745) construction
  spline S29 degree 2 poles (25.4629, -21.8918) (-1.453, 1.524) (24.4854, 15.3745) knots 1 1 1 2 2 2
  spline S30 degree 2 poles (25.8626, -21.3127) (21.9132, -18.0109) (19.0822, -14.9107) knots -2 -2 -2 -1.855416 -1.855416 -1.855416 projected
  spline S31 degree 2 poles (17.22, 9.815) (18.4126, 10.8679) (19.8732, 11.8725) knots 1.825455 1.825455 1.825455 1.896249 1.896249 1.896249 projected
  spline S32 degree 2 poles (17.22, -12.7436) (6.6116, 0.4487) (17.22, 9.815) knots -1.804293 -1.804293 -1.804293 -1.174545 -1.174545 -1.174545 projected
  spline S33 degree 2 poles (19.8732, 11.8725) (22.0139, 13.3447) (24.7305, 14.7131) knots -1.103751 -1.103751 -1.103751 -1 -1 -1 projected
  spline S34 degree 2 poles (19.0822, -14.9107) (18.0812, -13.8146) (17.22, -12.7436) knots 1.144584 1.144584 1.144584 1.195707 1.195707 1.195707 projected
  point P0 (0, 0)
  point P1 (24.4854, 15.3745)
  point P2 (20.77, 20.7795)
  dimension "d5" = 6.6
  dimension "d0" = 3.4
  dimension "d1" = 3.4
  dimension "d2" = 3.4
  dimension "d3" = 3.4
  dimension "d4" = 1.6
  dimension "d6" = 6.6
  dimension "d7" = 6.6
  dimension "d8" = 6.6
  dimension "d9" = 51.811
  dimension "d10" = 25.9055
  dimension "d11" = 48.768
  dimension "d12" = 24.384
extrude "Extrusion1" add sketch "Skizze1" along normal blind 1 contours A18 | A18 S27 A19 S29 A20 S28 A21 S26 | A19 | A21 | A20
sketch "Skizze2" plane through (0, 0, 1) normal (0, 0, 1) x (1, 0, 0)
  circle A0 centre (-25.837, 27.4295) radius 1.7 projected
  circle A1 centre (22.931, 18.2855) radius 1.7 projected
  circle A2 centre (23.297, -24.3815) radius 1.7 projected
  circle A3 centre (-25.837, -24.3815) radius 1.7 projected
  circle A4 centre (-25.837, 27.4295) radius 1.7 projected
  circle A5 centre (-25.837, 27.4295) radius 3.3
  circle A6 centre (22.931, 18.2855) radius 3.3
  circle A7 centre (23.297, -24.3815) radius 3.3
  circle A8 centre (-25.837, -24.3815) radius 3.3
  point P0 (0, 0)
  dimension "d15" = 6.6
  dimension "d16" = 6.6
  dimension "d17" = 6.6
  dimension "d18" = 6.6
extrude "Extrusion2" add sketch "Skizze2" along normal blind 3.2
chamfer "Fase1" distance 0.4 angle 45 12 edges at (-1.3426, 13.3215, 0) (-28.0988, 29.8325, 0) (-14.7364, 1.524, 0) (-28.0988, -26.7845, 0) (-1.3574, -12.4486, 0) (25.5766, -26.7676, 0) (11.7606, -0.8673, 0) (25.6505, 20.1549, 0) (-27.537, 27.4295, 0) (-27.537, -24.3815, 0) (21.597, -24.3815, 0) (21.231, 18.2855, 0)
chamfer "Fase2" distance 0.8 angle 45 4 edges at (-29.137, 27.4295, 4.2) (19.631, 18.2855, 4.2) (19.997, -24.3815, 4.2) (-29.137, -24.3815, 4.2)
equation "\"d6\" = d5"
equation "\"d7\" = d5"
equation "\"d8\" = d5"
equation "\"d10\" = 0.5 * d9"
equation "\"d12\" = 0.5 * d11"
properties part number "TinyFan_Extrusion_Top"
